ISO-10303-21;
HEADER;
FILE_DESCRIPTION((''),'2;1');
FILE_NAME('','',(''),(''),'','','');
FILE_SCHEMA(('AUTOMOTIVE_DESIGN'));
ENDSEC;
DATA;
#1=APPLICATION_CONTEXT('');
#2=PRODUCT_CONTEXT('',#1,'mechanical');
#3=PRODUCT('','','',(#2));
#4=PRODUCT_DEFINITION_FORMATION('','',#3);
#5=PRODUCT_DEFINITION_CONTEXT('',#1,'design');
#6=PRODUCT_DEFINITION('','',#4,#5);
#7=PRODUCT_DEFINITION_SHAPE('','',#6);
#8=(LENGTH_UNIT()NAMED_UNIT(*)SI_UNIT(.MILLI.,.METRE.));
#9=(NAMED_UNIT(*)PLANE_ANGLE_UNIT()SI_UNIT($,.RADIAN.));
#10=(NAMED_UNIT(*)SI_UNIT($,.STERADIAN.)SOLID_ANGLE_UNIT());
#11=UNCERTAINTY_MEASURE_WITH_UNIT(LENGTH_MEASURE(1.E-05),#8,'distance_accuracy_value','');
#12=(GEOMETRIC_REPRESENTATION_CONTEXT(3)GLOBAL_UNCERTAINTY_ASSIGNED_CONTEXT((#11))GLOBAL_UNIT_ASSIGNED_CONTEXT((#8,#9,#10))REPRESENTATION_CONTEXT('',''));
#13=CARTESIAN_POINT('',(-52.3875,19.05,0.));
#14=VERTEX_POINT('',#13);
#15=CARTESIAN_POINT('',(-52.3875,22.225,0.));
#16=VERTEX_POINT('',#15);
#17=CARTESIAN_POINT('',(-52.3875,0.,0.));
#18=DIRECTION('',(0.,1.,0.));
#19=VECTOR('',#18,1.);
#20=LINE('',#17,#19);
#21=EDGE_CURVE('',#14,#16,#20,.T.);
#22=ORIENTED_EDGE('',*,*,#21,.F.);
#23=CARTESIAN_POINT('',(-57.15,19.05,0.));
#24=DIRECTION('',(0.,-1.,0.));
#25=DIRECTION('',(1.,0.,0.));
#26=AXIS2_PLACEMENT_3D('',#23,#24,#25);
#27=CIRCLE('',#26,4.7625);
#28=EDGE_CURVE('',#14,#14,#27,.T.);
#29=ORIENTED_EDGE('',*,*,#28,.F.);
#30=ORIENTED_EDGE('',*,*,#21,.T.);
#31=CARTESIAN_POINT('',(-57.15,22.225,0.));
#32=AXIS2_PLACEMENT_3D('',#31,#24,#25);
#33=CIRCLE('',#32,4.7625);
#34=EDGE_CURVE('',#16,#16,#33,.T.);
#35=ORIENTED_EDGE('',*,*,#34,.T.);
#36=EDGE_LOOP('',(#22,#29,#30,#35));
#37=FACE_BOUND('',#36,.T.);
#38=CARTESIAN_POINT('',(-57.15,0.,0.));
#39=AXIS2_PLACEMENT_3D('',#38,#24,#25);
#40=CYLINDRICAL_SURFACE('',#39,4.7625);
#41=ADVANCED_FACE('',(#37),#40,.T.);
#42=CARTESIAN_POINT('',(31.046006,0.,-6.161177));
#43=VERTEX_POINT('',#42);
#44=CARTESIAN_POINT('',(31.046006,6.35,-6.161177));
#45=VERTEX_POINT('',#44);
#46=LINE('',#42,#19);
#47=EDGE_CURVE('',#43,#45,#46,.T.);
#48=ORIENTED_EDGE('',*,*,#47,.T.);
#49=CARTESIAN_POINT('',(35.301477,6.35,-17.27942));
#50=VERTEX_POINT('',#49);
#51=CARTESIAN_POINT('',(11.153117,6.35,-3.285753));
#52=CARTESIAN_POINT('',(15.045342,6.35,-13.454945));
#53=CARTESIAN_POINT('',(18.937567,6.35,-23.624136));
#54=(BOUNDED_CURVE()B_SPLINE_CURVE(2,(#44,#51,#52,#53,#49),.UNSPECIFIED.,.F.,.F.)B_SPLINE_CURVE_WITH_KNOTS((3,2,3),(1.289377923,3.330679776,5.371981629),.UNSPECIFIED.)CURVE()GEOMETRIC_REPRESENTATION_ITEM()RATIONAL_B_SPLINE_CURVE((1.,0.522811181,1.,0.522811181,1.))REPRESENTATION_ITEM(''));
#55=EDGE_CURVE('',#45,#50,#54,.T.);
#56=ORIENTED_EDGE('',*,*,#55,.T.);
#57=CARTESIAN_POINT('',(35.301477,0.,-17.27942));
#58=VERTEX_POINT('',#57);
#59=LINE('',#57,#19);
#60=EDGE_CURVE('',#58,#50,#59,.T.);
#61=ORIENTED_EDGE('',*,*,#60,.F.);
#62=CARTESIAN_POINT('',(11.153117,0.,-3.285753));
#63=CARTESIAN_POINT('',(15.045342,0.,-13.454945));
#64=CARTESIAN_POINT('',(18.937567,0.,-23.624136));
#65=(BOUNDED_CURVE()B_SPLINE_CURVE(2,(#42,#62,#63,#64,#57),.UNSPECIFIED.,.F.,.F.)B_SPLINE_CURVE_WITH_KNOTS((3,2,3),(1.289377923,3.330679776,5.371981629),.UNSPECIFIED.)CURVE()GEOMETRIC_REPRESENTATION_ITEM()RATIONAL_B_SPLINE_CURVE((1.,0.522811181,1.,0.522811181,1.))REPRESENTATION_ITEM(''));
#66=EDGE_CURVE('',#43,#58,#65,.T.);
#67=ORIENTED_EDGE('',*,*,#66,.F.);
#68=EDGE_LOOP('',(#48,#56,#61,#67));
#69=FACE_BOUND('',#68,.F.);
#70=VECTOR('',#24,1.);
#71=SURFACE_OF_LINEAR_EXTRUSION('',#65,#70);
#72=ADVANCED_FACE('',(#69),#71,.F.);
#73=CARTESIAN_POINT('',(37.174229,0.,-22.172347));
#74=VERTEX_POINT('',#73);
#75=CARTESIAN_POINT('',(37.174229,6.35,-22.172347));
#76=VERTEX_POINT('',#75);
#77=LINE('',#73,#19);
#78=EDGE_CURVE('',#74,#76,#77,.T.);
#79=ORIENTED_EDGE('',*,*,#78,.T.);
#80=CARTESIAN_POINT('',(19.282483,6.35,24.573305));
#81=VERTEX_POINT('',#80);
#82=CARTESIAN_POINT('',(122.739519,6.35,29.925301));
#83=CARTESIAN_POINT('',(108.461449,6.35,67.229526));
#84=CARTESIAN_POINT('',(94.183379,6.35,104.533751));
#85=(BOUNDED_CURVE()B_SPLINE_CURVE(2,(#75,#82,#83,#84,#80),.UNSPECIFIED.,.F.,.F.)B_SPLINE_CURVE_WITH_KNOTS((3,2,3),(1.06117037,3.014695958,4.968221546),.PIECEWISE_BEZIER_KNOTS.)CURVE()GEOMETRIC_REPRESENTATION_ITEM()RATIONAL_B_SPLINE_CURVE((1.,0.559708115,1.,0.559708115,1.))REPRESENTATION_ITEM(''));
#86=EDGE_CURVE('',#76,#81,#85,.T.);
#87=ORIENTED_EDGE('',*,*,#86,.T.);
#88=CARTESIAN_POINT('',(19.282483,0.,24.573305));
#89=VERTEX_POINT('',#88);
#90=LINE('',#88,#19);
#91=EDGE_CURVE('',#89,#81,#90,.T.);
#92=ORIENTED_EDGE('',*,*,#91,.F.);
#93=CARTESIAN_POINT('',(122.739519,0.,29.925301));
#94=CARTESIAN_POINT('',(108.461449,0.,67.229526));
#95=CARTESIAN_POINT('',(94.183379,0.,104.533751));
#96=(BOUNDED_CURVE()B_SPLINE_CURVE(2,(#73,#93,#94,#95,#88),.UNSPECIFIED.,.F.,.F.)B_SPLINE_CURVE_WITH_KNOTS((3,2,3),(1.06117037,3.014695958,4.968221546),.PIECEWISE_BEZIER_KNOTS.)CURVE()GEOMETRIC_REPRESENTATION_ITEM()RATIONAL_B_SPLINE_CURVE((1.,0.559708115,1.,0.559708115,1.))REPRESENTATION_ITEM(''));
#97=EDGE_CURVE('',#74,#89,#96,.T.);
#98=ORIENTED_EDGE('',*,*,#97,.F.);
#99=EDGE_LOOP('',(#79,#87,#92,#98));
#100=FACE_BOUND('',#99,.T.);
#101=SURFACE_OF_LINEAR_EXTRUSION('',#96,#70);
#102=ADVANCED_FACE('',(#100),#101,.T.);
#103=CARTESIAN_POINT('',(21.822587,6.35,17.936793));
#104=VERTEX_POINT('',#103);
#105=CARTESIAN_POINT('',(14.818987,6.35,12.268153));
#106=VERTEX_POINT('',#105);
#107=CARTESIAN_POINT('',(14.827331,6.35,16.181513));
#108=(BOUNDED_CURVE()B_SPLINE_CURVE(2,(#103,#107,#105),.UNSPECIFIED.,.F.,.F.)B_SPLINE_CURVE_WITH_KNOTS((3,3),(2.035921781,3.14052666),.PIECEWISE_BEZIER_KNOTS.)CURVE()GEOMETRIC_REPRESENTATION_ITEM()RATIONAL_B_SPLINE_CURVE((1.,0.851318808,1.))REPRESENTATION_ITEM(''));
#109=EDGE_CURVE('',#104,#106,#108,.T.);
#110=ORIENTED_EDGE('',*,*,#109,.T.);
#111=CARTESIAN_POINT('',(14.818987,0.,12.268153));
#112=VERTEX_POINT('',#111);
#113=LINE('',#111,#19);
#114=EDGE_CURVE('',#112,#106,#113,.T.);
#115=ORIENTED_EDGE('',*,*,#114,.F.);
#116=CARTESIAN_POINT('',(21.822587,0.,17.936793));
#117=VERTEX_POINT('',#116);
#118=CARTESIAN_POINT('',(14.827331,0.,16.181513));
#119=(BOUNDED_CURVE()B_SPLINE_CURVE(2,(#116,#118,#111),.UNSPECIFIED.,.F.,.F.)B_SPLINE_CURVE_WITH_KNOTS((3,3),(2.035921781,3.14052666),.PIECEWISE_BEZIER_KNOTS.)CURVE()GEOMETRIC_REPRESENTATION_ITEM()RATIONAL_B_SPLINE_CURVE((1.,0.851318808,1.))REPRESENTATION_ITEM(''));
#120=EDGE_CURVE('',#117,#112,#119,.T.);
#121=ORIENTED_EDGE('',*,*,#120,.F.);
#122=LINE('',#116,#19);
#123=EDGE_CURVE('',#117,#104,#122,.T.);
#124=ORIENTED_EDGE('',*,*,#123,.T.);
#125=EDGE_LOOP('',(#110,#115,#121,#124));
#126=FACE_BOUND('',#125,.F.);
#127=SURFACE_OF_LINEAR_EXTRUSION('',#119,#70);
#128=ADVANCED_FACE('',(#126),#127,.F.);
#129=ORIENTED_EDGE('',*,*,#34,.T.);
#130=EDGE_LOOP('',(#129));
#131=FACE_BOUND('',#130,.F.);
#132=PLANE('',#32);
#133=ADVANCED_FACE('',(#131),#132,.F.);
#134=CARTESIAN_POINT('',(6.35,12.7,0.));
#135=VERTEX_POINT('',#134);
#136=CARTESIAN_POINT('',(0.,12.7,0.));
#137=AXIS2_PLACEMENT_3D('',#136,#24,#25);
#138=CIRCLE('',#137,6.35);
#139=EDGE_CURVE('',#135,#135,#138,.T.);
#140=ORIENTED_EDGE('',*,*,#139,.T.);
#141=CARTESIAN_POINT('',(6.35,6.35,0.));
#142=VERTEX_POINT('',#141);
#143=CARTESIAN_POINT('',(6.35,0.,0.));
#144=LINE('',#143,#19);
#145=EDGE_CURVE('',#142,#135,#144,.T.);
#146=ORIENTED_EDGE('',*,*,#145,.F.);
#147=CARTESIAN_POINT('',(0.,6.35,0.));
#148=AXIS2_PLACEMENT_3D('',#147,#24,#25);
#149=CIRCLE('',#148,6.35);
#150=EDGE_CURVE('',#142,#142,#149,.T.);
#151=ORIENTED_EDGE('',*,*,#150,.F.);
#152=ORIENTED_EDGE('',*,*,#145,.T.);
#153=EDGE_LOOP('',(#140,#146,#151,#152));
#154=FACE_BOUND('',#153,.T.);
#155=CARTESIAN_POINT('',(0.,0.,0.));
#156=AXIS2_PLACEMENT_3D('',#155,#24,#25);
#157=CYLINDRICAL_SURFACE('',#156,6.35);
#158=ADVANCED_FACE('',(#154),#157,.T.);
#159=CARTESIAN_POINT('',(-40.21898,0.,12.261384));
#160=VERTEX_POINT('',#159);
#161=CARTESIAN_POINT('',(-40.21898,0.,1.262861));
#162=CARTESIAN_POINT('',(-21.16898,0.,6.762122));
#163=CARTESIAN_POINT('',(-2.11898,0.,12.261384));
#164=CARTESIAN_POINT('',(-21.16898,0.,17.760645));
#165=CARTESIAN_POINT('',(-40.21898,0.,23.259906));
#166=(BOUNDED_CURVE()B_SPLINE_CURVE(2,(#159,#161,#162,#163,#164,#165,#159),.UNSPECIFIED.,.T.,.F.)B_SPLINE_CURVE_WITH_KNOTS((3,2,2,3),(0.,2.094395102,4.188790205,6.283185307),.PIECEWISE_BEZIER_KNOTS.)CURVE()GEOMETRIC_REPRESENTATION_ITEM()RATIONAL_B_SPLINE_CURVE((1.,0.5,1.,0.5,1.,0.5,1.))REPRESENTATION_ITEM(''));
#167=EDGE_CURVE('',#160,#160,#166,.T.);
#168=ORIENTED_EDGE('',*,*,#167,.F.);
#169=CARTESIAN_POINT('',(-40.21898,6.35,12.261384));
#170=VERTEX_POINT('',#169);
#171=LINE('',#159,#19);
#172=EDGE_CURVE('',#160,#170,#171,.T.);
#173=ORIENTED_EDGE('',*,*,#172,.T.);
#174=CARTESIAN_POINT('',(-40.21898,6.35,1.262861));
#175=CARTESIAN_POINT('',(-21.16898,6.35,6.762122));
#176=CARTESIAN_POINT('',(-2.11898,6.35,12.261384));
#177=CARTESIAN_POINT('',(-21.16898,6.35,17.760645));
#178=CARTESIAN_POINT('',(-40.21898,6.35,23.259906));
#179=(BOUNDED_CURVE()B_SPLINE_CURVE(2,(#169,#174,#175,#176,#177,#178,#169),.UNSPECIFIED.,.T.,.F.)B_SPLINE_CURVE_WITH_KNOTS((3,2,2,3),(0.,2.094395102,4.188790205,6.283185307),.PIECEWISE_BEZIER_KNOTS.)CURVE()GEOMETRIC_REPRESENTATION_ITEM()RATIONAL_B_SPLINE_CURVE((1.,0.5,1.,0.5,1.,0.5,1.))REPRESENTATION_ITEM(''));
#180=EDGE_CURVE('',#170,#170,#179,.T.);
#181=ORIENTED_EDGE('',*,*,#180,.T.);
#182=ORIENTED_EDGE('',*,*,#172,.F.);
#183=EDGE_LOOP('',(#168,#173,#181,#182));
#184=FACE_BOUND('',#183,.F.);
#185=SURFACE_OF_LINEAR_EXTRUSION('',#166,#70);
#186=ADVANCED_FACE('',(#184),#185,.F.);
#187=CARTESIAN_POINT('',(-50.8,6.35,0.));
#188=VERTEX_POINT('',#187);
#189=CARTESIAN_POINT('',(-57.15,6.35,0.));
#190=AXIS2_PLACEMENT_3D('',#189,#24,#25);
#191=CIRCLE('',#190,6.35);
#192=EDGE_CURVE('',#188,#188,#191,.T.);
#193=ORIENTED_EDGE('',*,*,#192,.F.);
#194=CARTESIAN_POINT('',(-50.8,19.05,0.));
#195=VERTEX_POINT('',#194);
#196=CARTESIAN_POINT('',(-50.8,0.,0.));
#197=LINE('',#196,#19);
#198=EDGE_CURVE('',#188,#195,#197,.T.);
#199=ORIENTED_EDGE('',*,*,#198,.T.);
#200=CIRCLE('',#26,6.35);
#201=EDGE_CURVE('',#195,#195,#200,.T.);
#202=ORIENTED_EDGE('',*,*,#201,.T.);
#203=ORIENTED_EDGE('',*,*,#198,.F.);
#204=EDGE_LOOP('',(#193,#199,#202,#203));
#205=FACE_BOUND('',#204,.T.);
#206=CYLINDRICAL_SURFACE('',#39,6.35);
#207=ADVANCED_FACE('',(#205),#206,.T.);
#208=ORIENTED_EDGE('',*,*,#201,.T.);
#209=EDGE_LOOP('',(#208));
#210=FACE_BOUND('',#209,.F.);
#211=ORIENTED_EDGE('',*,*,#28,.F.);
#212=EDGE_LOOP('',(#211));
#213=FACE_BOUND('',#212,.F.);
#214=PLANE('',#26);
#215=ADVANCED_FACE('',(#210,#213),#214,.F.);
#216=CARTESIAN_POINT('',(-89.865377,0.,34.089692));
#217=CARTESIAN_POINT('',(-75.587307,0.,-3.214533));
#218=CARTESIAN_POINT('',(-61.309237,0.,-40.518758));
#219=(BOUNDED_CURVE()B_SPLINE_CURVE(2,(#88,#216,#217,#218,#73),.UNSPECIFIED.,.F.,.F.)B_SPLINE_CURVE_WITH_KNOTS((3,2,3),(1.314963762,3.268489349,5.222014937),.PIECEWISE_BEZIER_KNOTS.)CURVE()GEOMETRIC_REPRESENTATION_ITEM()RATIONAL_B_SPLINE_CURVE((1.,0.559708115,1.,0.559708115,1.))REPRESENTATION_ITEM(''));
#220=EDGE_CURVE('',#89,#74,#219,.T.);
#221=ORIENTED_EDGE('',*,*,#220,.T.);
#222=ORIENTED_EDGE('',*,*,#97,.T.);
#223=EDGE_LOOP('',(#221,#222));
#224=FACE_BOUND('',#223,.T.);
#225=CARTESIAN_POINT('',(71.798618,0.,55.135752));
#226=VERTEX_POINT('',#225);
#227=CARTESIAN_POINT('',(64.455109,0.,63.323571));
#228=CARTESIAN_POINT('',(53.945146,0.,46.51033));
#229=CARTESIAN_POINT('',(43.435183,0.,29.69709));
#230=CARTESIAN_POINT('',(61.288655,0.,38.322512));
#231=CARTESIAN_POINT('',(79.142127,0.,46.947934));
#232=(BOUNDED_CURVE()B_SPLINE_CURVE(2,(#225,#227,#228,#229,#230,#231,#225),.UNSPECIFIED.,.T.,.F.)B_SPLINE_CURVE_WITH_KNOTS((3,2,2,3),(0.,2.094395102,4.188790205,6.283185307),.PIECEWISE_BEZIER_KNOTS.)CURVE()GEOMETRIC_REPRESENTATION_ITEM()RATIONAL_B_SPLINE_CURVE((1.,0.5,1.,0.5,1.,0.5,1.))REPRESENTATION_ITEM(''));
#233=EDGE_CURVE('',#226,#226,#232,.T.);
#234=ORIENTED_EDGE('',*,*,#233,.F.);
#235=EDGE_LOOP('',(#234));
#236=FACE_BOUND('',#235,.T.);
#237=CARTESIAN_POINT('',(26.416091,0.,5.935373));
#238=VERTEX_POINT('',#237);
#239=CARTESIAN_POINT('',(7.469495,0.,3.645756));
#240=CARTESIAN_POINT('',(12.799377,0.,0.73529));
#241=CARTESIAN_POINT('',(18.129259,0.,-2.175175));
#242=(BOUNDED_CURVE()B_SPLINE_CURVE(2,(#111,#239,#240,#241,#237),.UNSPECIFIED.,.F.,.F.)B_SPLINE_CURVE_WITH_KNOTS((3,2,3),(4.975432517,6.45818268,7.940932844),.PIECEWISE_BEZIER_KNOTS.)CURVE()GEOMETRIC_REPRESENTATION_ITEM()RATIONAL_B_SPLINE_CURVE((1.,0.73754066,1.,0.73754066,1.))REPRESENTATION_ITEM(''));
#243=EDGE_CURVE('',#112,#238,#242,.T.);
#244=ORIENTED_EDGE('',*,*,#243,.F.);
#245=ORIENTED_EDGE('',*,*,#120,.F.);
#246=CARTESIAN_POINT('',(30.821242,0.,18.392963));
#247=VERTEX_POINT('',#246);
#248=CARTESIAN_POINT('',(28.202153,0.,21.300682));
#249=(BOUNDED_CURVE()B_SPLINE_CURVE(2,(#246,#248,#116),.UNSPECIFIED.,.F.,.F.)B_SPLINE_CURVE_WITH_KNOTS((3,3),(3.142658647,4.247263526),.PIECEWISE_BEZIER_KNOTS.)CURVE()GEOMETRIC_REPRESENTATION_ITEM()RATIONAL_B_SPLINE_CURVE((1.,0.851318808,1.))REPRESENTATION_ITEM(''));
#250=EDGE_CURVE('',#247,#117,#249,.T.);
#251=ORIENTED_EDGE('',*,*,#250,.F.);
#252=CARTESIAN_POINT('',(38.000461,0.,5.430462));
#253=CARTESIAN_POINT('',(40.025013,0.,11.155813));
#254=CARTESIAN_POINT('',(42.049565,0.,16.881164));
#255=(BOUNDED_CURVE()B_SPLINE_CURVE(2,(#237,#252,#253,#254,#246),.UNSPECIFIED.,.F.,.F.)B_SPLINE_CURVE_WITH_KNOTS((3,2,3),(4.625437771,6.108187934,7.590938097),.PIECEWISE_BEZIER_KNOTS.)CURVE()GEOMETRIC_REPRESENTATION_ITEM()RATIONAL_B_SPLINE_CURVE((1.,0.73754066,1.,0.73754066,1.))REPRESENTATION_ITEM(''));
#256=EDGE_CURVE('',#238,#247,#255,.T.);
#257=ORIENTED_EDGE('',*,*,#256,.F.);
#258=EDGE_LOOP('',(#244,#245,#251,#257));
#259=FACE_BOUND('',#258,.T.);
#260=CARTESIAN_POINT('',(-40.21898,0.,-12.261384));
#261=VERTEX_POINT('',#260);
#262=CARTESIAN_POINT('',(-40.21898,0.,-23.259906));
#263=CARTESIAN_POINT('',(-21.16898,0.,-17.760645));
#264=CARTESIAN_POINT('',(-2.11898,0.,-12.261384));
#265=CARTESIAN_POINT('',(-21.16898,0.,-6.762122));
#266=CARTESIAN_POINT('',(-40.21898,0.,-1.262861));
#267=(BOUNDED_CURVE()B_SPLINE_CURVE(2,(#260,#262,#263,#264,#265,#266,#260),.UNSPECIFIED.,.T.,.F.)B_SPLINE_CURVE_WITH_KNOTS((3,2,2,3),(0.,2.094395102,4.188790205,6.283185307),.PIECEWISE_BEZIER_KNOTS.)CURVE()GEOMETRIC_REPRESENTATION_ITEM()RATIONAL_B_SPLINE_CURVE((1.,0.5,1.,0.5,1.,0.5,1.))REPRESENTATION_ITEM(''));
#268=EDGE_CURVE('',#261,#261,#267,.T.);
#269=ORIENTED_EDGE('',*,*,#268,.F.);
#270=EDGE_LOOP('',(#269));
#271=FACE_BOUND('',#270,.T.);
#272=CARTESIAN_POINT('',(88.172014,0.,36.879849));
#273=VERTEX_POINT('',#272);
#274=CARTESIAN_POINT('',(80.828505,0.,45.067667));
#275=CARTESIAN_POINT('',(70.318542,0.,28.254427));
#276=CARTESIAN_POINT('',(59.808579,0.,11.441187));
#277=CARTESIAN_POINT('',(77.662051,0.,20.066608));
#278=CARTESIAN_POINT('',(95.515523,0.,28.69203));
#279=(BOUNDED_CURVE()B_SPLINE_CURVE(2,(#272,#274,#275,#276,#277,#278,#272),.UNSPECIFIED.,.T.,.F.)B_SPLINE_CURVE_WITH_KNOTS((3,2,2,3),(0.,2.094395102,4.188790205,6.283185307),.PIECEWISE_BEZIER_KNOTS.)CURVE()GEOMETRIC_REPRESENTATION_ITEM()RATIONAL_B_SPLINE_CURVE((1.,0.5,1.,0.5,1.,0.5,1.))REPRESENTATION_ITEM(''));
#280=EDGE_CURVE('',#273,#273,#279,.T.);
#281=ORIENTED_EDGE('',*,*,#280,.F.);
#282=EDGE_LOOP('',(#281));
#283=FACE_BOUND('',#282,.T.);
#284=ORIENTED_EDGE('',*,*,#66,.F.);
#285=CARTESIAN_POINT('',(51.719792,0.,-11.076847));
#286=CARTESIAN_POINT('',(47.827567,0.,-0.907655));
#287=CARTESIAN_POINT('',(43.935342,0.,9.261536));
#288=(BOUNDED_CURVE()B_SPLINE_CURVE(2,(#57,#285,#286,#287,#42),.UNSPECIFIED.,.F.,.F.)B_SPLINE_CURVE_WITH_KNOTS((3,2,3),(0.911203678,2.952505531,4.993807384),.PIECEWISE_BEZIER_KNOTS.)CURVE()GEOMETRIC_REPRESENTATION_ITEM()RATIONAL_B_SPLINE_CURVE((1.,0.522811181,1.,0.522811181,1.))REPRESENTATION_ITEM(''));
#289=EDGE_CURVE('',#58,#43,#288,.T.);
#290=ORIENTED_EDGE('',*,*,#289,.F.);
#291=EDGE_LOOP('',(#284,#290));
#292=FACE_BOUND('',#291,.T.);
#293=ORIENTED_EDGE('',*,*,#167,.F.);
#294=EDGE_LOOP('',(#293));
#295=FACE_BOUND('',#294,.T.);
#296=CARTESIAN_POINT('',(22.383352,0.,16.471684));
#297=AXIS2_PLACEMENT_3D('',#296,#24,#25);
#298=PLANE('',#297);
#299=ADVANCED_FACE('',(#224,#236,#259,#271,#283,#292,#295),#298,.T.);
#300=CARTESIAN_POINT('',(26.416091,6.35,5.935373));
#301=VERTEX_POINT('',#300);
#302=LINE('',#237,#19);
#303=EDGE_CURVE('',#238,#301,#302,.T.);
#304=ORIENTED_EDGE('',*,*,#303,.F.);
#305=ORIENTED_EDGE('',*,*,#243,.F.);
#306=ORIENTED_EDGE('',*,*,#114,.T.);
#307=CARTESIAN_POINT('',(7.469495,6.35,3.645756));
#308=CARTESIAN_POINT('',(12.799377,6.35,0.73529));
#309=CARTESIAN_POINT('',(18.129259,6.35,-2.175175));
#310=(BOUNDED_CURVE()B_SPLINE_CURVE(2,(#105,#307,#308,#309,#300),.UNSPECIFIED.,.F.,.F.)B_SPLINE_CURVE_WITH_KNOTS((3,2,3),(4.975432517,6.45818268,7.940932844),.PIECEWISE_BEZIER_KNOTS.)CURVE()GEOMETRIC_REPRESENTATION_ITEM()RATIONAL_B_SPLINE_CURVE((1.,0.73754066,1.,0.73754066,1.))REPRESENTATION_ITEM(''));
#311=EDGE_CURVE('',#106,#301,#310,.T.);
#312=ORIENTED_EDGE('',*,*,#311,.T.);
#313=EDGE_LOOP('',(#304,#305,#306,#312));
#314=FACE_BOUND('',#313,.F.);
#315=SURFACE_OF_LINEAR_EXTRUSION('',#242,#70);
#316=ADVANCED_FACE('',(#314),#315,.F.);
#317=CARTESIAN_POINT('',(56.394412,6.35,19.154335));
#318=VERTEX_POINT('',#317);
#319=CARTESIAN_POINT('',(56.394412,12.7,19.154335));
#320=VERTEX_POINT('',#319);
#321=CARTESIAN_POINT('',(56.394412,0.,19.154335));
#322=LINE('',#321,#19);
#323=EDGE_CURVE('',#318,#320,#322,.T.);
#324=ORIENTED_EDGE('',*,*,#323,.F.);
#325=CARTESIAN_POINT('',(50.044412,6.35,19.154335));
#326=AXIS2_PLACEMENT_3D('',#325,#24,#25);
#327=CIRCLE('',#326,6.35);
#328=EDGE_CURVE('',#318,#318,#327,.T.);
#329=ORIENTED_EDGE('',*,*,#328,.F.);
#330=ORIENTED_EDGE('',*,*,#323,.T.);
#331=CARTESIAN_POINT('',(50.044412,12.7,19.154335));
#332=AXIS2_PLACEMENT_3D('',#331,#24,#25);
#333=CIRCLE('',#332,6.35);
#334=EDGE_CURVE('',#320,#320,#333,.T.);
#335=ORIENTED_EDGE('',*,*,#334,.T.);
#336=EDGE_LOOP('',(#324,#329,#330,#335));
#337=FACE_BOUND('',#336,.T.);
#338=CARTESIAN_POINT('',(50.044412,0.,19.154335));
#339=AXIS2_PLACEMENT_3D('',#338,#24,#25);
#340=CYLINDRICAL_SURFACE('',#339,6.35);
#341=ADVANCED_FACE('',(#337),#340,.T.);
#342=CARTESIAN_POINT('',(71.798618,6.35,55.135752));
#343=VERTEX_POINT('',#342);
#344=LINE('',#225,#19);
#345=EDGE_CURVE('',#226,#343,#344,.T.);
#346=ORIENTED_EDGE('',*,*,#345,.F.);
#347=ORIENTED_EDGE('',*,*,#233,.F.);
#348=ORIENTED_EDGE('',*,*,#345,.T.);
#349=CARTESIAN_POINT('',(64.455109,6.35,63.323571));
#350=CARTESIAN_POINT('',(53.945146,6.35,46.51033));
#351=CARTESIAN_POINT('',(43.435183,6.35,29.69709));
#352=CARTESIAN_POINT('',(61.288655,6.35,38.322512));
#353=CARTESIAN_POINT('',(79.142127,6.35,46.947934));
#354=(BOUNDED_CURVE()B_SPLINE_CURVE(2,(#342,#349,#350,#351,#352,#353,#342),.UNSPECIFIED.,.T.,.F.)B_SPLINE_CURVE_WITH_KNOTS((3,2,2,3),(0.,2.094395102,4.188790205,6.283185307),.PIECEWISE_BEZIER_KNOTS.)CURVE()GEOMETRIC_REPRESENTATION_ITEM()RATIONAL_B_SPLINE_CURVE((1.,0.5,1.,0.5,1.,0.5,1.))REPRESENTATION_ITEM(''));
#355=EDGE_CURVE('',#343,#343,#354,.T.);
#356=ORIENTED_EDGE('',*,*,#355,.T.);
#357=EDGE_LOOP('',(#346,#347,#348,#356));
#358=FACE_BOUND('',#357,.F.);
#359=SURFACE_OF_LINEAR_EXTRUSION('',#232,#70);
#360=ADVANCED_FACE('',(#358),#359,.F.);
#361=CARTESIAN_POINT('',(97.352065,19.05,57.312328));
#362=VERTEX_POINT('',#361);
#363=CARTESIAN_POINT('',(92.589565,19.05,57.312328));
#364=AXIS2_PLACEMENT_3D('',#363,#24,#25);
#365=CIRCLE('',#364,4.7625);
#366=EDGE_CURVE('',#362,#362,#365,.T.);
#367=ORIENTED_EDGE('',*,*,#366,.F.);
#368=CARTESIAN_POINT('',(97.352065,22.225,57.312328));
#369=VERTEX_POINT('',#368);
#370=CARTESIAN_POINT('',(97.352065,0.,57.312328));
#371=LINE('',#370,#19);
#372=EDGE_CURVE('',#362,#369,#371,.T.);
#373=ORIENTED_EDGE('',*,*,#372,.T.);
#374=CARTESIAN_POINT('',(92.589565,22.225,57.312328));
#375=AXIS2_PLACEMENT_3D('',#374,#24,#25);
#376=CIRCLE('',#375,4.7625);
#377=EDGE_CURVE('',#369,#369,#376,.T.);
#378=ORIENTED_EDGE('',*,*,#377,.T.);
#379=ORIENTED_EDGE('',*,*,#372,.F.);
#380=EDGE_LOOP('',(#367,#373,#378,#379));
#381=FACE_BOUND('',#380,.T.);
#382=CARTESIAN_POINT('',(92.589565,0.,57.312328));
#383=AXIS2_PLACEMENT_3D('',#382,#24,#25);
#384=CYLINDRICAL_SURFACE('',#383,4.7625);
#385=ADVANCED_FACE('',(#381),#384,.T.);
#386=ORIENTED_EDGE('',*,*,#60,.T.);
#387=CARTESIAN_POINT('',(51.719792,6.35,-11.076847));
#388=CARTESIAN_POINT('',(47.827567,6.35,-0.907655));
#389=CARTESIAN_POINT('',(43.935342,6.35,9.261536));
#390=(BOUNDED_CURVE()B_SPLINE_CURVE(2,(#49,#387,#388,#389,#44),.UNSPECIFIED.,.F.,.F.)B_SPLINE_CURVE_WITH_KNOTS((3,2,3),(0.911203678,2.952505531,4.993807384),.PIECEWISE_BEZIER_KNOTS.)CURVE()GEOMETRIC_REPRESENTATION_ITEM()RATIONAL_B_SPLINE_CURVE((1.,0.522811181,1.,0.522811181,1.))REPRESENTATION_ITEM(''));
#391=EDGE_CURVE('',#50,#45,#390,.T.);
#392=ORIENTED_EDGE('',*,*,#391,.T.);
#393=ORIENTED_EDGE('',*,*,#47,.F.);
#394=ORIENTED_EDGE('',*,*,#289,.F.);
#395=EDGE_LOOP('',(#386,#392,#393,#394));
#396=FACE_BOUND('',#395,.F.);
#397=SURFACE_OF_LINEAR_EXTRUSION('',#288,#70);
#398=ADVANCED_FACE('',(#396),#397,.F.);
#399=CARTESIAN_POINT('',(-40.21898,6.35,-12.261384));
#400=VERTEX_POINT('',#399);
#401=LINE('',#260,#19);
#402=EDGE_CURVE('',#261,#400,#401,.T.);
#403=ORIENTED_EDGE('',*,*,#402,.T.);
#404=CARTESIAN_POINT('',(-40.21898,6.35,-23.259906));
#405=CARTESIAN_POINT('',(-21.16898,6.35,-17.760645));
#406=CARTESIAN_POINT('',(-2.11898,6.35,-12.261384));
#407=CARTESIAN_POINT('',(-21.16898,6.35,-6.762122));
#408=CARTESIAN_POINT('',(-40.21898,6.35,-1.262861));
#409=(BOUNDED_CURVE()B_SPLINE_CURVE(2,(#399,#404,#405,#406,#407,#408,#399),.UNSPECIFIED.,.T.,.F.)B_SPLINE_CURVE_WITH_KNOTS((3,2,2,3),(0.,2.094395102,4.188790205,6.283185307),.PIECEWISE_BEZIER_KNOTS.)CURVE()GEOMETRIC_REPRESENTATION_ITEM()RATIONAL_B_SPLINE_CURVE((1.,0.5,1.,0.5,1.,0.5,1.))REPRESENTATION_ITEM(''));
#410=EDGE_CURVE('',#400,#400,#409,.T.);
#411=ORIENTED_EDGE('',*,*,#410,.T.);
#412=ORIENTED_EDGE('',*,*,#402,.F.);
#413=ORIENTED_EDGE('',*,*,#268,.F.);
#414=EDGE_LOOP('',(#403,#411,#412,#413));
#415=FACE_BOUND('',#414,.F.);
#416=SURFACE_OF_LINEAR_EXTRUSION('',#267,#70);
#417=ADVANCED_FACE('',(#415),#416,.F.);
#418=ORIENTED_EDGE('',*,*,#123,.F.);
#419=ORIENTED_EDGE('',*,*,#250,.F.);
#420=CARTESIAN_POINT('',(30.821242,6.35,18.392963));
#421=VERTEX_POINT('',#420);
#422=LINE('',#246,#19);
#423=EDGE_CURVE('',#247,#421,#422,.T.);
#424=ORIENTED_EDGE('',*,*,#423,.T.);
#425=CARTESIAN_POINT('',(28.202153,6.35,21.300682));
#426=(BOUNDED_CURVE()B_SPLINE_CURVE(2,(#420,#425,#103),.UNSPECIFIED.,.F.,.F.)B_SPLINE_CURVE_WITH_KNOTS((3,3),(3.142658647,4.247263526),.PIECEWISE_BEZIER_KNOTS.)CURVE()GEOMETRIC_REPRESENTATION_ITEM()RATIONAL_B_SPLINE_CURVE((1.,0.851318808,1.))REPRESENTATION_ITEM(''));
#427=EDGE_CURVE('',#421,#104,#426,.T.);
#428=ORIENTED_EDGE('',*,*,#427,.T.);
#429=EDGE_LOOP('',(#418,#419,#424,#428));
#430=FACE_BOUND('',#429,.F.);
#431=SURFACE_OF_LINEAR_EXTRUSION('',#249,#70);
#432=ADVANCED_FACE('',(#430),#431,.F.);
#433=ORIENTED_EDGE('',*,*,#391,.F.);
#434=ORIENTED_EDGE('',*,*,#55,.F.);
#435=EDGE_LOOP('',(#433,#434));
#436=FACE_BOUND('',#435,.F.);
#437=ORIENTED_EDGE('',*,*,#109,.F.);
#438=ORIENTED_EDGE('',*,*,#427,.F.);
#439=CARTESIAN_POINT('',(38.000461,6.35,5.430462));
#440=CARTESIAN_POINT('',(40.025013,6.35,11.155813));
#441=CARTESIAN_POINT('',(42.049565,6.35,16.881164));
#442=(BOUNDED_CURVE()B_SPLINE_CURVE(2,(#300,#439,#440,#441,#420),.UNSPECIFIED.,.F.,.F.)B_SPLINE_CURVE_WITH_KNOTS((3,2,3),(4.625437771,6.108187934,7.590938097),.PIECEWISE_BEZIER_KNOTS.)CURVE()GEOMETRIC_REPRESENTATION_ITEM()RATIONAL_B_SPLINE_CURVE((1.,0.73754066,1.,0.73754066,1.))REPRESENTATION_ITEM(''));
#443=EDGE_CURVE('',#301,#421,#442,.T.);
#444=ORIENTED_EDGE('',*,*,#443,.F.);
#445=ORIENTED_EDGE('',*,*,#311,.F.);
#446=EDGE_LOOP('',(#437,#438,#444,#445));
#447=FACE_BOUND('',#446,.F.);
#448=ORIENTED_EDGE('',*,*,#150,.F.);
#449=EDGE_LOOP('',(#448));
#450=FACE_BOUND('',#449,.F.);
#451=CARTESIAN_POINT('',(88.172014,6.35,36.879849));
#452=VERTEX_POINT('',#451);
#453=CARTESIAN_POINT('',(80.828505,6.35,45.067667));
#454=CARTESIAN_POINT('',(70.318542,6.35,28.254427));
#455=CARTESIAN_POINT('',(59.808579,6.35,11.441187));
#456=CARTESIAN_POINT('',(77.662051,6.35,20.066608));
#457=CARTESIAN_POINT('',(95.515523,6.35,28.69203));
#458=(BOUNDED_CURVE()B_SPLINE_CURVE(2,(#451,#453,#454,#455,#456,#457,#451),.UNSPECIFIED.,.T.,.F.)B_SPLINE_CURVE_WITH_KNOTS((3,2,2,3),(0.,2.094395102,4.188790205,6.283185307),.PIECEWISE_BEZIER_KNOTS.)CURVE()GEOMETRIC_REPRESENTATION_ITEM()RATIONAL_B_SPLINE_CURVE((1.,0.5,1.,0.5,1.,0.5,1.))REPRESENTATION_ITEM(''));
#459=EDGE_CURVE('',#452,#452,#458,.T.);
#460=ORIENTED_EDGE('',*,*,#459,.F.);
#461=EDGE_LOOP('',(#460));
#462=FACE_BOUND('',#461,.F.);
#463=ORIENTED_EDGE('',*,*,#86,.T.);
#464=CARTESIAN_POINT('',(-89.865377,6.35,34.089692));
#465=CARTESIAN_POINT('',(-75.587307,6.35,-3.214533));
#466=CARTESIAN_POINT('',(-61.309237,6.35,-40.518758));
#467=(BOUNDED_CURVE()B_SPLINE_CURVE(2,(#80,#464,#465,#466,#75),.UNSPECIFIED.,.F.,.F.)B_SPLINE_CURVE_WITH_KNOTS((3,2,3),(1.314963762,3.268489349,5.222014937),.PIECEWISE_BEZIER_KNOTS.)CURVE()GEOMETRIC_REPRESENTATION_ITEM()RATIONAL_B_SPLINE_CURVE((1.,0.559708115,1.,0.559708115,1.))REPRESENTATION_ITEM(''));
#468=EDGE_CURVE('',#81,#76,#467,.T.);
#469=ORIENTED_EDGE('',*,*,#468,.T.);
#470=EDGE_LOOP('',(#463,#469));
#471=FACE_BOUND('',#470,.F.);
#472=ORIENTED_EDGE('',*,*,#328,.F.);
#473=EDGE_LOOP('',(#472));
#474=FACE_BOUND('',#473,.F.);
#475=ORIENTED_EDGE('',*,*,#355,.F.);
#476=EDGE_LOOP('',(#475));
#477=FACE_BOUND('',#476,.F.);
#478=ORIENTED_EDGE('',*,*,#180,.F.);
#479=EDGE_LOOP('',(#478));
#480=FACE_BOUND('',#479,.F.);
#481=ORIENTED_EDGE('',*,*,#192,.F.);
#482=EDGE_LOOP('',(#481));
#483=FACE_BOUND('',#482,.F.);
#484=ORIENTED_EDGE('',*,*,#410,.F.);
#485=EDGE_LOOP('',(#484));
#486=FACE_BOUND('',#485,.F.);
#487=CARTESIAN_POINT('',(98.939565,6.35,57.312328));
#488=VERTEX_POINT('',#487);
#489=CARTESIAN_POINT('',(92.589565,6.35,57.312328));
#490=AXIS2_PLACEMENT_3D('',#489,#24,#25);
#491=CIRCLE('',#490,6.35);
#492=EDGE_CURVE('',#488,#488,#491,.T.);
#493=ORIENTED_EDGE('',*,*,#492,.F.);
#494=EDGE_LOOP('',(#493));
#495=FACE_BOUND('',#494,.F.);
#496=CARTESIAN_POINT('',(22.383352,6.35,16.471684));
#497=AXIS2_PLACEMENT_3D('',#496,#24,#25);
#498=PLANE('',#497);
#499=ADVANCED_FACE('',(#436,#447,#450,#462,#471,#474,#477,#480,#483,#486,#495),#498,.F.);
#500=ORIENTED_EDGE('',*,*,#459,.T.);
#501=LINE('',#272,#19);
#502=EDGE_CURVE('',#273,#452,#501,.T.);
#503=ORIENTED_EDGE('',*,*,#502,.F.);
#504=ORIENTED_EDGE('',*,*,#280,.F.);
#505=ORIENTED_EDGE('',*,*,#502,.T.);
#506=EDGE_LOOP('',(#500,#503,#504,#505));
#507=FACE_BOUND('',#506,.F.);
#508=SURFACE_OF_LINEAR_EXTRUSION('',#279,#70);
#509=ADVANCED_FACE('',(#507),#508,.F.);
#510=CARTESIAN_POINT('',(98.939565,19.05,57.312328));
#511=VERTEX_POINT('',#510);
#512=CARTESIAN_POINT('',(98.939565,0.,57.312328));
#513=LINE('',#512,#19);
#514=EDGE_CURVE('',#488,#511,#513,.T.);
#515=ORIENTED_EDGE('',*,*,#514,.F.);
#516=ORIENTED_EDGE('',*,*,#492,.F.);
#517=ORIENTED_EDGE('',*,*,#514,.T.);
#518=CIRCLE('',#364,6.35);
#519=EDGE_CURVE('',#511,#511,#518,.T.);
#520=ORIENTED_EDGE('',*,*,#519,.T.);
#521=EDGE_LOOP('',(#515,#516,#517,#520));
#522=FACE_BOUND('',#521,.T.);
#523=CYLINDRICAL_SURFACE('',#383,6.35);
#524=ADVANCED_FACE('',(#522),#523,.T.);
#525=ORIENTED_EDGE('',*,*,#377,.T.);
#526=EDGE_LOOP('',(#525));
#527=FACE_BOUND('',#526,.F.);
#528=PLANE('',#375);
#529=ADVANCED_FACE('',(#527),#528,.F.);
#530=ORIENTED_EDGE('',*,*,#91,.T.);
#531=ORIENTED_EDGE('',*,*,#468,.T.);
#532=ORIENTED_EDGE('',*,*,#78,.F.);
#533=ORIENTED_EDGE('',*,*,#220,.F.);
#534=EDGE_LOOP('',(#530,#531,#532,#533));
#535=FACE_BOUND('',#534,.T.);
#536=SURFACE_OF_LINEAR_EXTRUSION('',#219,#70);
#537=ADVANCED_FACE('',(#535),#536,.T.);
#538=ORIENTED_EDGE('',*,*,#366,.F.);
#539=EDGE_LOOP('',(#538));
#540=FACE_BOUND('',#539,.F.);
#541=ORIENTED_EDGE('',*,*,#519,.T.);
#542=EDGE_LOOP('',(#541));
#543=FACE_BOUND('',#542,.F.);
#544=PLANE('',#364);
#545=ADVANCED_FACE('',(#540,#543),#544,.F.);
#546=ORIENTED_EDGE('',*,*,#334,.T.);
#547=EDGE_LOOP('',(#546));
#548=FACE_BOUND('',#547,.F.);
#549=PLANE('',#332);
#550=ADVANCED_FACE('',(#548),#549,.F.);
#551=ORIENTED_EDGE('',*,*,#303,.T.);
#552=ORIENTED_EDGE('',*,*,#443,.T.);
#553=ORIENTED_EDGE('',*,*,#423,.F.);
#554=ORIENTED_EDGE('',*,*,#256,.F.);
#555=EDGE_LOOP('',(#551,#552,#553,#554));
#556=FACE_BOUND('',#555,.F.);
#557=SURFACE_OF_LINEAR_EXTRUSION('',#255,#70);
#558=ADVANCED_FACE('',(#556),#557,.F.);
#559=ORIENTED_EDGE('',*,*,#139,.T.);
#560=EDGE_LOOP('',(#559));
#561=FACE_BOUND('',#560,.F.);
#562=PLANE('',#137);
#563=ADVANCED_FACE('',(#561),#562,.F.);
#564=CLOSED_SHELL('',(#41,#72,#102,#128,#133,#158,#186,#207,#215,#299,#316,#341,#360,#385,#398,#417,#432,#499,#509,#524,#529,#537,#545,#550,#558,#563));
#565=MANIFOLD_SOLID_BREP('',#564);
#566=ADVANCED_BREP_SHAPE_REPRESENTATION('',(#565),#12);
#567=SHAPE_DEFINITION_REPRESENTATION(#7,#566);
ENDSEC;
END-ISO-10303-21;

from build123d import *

# Parameters (mm, degrees)
F0_R     = 6.35
F1_DEPTH = 6.35
F0_R_2   = 4.7625
F2_DEPTH = 19.05
F3_DEPTH = 19.05
F4_DEPTH = 12.7
F5_DEPTH = 12.7
F6_DEPTH = 22.225
F7_DEPTH = 22.225


with BuildPart() as f1:
    # F0 (on Front) → F1 (new body)
    with BuildSketch(Plane.XZ):
        with BuildLine():
            add(Edge.make_bspline(
                [(37.1742285347, -22.1723469736), (122.739519111, 29.9253006643), (108.4614492154, 67.2295257241), (94.1833793198, 104.5337507839), (19.2824834585, 24.5733049188)],
                knots=[1.0611703705, 1.0611703705, 1.0611703705, 3.0146959581, 3.0146959581, 4.9682215457, 4.9682215457, 4.9682215457], degree=2, weights=[1, 0.5597081146, 1, 0.5597081146, 1]))
            add(Edge.make_bspline(
                [(19.2824834585, 24.5733049188), (-89.8653771413, 34.0896923766), (-75.5873072457, -3.2145326832), (-61.3092373501, -40.518757743), (37.1742285347, -22.1723469736)],
                knots=[1.3149637615, 1.3149637615, 1.3149637615, 3.2684893491, 3.2684893491, 5.2220149367, 5.2220149367, 5.2220149367], degree=2, weights=[1, 0.5597081146, 1, 0.5597081146, 1]))
        make_face()
        with BuildLine():
            add(Edge.make_bspline(
                [(-40.2189802051, -12.2613835424), (-40.2189802051, -23.2599061705), (-21.1689802051, -17.7606448564), (-2.1189802051, -12.2613835424), (-21.1689802051, -6.7621222284), (-40.2189802051, -1.2628609144), (-40.2189802051, -12.2613835424)],
                knots=[0, 0, 0, 2.0943951024, 2.0943951024, 4.1887902048, 4.1887902048, 6.2831853072, 6.2831853072, 6.2831853072], degree=2, weights=[1, 0.5, 1, 0.5, 1, 0.5, 1]))
        make_face(mode=Mode.SUBTRACT)
        with Locations((-57.15, 0)):
            Circle(F0_R, mode=Mode.SUBTRACT)
        Circle(F0_R, mode=Mode.SUBTRACT)
        with BuildLine():
            add(Edge.make_bspline(
                [(-40.2189802051, 12.2613835424), (-40.2189802051, 1.2628609144), (-21.1689802051, 6.7621222284), (-2.1189802051, 12.2613835424), (-21.1689802051, 17.7606448564), (-40.2189802051, 23.2599061705), (-40.2189802051, 12.2613835424)],
                knots=[0, 0, 0, 2.0943951024, 2.0943951024, 4.1887902048, 4.1887902048, 6.2831853072, 6.2831853072, 6.2831853072], degree=2, weights=[1, 0.5, 1, 0.5, 1, 0.5, 1]))
        make_face(mode=Mode.SUBTRACT)
        with BuildLine():
            add(Edge.make_bspline(
                [(31.0460055984, -6.1611767452), (11.1531172526, -3.285752818), (15.0453420721, -13.4549445722), (18.9375668916, -23.6241363265), (35.3014766673, -17.2794197324)],
                knots=[1.2893779229, 1.2893779229, 1.2893779229, 3.3306797762, 3.3306797762, 5.3719816294, 5.3719816294, 5.3719816294], degree=2, weights=[1, 0.5228111806, 1, 0.5228111806, 1]))
            add(Edge.make_bspline(
                [(35.3014766673, -17.2794197324), (51.7197916302, -11.0768472352), (47.8275668108, -0.9076554809), (43.9353419913, 9.2615362733), (31.0460055984, -6.1611767452)],
                knots=[0.9112036777, 0.9112036777, 0.9112036777, 2.952505531, 2.952505531, 4.9938073843, 4.9938073843, 4.9938073843], degree=2, weights=[1, 0.5228111806, 1, 0.5228111806, 1]))
        make_face(mode=Mode.SUBTRACT)
        with BuildLine():
            add(Edge.make_bspline(
                [(26.4160908045, 5.9353730506), (38.0004613393, 5.4304624323), (40.0250130574, 11.155813294), (42.0495647755, 16.8811641557), (30.8212418268, 18.3929630327)],
                knots=[4.6254377708, 4.6254377708, 4.6254377708, 6.108187934, 6.108187934, 7.5909380972, 7.5909380972, 7.5909380972], degree=2, weights=[1, 0.73754066, 1, 0.73754066, 1]))
            add(Edge.make_bspline(
                [(14.8189874208, 12.2681525982), (7.4694947115, 3.6457556577), (12.7993768112, 0.7352902393), (18.1292589109, -2.1751751792), (26.4160908045, 5.9353730506)],
                knots=[4.9754325172, 4.9754325172, 4.9754325172, 6.4581826804, 6.4581826804, 7.9409328436, 7.9409328436, 7.9409328436], degree=2, weights=[1, 0.73754066, 1, 0.73754066, 1]))
            add(Edge.make_bspline(
                [(21.8225865676, 17.9367932089), (14.827330656, 16.1815132551), (14.8189874208, 12.2681525982)],
                knots=[2.0359217815, 2.0359217815, 2.0359217815, 3.1405266603, 3.1405266603, 3.1405266603], degree=2, weights=[1, 0.8513188077, 1]))
            add(Edge.make_bspline(
                [(30.8212418268, 18.3929630327), (28.2021525278, 21.3006824972), (21.8225865676, 17.9367932089)],
                knots=[3.1426586468, 3.1426586468, 3.1426586468, 4.2472635256, 4.2472635256, 4.2472635256], degree=2, weights=[1, 0.8513188077, 1]))
        make_face(mode=Mode.SUBTRACT)
        with Locations((50.0444119496, 19.154334678)):
            Circle(F0_R, mode=Mode.SUBTRACT)
        with BuildLine():
            add(Edge.make_bspline(
                [(71.7986181301, 55.1357522232), (64.4551089206, 63.3235707661), (53.945145806, 46.510330438), (43.4351826914, 29.6970901099), (61.2886550155, 38.3225118952), (79.1421273396, 46.9479336804), (71.7986181301, 55.1357522232)],
                knots=[0, 0, 0, 2.0943951024, 2.0943951024, 4.1887902048, 4.1887902048, 6.2831853072, 6.2831853072, 6.2831853072], degree=2, weights=[1, 0.5, 1, 0.5, 1, 0.5, 1]))
        make_face(mode=Mode.SUBTRACT)
        with BuildLine():
            add(Edge.make_bspline(
                [(88.1720140869, 36.8798487852), (80.8285048775, 45.0676673281), (70.3185417629, 28.254427), (59.8085786482, 11.4411866719), (77.6620509723, 20.0666084571), (95.5155232964, 28.6920302424), (88.1720140869, 36.8798487852)],
                knots=[0, 0, 0, 2.0943951024, 2.0943951024, 4.1887902048, 4.1887902048, 6.2831853072, 6.2831853072, 6.2831853072], degree=2, weights=[1, 0.5, 1, 0.5, 1, 0.5, 1]))
        make_face(mode=Mode.SUBTRACT)
        with Locations((92.5895651076, 57.312327848)):
            Circle(F0_R, mode=Mode.SUBTRACT)
    extrude(amount=-F1_DEPTH)

    # F0 (on Front) → F2 (join)
    with BuildSketch(Plane.XZ):
        with Locations((-57.15, 0)):
            Circle(F0_R)
        with Locations((-57.15, 0)):
            Circle(F0_R_2, mode=Mode.SUBTRACT)
    extrude(amount=-F2_DEPTH)

    # F0 (on Front) → F3 (join)
    with BuildSketch(Plane.XZ):
        with Locations((92.5895651076, 57.312327848)):
            Circle(F0_R)
        with Locations((92.5895651076, 57.312327848)):
            Circle(F0_R_2, mode=Mode.SUBTRACT)
    extrude(amount=-F3_DEPTH)

    # F0 (on Front) → F4 (join)
    with BuildSketch(Plane.XZ):
        Circle(F0_R)
    extrude(amount=-F4_DEPTH)

    # F0 (on Front) → F5 (join)
    with BuildSketch(Plane.XZ):
        with Locations((50.0444119496, 19.154334678)):
            Circle(F0_R)
    extrude(amount=-F5_DEPTH)

    # F0 (on Front) → F6 (join)
    with BuildSketch(Plane.XZ):
        with Locations((92.5895651076, 57.312327848)):
            Circle(F0_R_2)
    extrude(amount=-F6_DEPTH)

    # F0 (on Front) → F7 (join)
    with BuildSketch(Plane.XZ):
        with Locations((-57.15, 0)):
            Circle(F0_R_2)
    extrude(amount=-F7_DEPTH)


solid = f1.part
